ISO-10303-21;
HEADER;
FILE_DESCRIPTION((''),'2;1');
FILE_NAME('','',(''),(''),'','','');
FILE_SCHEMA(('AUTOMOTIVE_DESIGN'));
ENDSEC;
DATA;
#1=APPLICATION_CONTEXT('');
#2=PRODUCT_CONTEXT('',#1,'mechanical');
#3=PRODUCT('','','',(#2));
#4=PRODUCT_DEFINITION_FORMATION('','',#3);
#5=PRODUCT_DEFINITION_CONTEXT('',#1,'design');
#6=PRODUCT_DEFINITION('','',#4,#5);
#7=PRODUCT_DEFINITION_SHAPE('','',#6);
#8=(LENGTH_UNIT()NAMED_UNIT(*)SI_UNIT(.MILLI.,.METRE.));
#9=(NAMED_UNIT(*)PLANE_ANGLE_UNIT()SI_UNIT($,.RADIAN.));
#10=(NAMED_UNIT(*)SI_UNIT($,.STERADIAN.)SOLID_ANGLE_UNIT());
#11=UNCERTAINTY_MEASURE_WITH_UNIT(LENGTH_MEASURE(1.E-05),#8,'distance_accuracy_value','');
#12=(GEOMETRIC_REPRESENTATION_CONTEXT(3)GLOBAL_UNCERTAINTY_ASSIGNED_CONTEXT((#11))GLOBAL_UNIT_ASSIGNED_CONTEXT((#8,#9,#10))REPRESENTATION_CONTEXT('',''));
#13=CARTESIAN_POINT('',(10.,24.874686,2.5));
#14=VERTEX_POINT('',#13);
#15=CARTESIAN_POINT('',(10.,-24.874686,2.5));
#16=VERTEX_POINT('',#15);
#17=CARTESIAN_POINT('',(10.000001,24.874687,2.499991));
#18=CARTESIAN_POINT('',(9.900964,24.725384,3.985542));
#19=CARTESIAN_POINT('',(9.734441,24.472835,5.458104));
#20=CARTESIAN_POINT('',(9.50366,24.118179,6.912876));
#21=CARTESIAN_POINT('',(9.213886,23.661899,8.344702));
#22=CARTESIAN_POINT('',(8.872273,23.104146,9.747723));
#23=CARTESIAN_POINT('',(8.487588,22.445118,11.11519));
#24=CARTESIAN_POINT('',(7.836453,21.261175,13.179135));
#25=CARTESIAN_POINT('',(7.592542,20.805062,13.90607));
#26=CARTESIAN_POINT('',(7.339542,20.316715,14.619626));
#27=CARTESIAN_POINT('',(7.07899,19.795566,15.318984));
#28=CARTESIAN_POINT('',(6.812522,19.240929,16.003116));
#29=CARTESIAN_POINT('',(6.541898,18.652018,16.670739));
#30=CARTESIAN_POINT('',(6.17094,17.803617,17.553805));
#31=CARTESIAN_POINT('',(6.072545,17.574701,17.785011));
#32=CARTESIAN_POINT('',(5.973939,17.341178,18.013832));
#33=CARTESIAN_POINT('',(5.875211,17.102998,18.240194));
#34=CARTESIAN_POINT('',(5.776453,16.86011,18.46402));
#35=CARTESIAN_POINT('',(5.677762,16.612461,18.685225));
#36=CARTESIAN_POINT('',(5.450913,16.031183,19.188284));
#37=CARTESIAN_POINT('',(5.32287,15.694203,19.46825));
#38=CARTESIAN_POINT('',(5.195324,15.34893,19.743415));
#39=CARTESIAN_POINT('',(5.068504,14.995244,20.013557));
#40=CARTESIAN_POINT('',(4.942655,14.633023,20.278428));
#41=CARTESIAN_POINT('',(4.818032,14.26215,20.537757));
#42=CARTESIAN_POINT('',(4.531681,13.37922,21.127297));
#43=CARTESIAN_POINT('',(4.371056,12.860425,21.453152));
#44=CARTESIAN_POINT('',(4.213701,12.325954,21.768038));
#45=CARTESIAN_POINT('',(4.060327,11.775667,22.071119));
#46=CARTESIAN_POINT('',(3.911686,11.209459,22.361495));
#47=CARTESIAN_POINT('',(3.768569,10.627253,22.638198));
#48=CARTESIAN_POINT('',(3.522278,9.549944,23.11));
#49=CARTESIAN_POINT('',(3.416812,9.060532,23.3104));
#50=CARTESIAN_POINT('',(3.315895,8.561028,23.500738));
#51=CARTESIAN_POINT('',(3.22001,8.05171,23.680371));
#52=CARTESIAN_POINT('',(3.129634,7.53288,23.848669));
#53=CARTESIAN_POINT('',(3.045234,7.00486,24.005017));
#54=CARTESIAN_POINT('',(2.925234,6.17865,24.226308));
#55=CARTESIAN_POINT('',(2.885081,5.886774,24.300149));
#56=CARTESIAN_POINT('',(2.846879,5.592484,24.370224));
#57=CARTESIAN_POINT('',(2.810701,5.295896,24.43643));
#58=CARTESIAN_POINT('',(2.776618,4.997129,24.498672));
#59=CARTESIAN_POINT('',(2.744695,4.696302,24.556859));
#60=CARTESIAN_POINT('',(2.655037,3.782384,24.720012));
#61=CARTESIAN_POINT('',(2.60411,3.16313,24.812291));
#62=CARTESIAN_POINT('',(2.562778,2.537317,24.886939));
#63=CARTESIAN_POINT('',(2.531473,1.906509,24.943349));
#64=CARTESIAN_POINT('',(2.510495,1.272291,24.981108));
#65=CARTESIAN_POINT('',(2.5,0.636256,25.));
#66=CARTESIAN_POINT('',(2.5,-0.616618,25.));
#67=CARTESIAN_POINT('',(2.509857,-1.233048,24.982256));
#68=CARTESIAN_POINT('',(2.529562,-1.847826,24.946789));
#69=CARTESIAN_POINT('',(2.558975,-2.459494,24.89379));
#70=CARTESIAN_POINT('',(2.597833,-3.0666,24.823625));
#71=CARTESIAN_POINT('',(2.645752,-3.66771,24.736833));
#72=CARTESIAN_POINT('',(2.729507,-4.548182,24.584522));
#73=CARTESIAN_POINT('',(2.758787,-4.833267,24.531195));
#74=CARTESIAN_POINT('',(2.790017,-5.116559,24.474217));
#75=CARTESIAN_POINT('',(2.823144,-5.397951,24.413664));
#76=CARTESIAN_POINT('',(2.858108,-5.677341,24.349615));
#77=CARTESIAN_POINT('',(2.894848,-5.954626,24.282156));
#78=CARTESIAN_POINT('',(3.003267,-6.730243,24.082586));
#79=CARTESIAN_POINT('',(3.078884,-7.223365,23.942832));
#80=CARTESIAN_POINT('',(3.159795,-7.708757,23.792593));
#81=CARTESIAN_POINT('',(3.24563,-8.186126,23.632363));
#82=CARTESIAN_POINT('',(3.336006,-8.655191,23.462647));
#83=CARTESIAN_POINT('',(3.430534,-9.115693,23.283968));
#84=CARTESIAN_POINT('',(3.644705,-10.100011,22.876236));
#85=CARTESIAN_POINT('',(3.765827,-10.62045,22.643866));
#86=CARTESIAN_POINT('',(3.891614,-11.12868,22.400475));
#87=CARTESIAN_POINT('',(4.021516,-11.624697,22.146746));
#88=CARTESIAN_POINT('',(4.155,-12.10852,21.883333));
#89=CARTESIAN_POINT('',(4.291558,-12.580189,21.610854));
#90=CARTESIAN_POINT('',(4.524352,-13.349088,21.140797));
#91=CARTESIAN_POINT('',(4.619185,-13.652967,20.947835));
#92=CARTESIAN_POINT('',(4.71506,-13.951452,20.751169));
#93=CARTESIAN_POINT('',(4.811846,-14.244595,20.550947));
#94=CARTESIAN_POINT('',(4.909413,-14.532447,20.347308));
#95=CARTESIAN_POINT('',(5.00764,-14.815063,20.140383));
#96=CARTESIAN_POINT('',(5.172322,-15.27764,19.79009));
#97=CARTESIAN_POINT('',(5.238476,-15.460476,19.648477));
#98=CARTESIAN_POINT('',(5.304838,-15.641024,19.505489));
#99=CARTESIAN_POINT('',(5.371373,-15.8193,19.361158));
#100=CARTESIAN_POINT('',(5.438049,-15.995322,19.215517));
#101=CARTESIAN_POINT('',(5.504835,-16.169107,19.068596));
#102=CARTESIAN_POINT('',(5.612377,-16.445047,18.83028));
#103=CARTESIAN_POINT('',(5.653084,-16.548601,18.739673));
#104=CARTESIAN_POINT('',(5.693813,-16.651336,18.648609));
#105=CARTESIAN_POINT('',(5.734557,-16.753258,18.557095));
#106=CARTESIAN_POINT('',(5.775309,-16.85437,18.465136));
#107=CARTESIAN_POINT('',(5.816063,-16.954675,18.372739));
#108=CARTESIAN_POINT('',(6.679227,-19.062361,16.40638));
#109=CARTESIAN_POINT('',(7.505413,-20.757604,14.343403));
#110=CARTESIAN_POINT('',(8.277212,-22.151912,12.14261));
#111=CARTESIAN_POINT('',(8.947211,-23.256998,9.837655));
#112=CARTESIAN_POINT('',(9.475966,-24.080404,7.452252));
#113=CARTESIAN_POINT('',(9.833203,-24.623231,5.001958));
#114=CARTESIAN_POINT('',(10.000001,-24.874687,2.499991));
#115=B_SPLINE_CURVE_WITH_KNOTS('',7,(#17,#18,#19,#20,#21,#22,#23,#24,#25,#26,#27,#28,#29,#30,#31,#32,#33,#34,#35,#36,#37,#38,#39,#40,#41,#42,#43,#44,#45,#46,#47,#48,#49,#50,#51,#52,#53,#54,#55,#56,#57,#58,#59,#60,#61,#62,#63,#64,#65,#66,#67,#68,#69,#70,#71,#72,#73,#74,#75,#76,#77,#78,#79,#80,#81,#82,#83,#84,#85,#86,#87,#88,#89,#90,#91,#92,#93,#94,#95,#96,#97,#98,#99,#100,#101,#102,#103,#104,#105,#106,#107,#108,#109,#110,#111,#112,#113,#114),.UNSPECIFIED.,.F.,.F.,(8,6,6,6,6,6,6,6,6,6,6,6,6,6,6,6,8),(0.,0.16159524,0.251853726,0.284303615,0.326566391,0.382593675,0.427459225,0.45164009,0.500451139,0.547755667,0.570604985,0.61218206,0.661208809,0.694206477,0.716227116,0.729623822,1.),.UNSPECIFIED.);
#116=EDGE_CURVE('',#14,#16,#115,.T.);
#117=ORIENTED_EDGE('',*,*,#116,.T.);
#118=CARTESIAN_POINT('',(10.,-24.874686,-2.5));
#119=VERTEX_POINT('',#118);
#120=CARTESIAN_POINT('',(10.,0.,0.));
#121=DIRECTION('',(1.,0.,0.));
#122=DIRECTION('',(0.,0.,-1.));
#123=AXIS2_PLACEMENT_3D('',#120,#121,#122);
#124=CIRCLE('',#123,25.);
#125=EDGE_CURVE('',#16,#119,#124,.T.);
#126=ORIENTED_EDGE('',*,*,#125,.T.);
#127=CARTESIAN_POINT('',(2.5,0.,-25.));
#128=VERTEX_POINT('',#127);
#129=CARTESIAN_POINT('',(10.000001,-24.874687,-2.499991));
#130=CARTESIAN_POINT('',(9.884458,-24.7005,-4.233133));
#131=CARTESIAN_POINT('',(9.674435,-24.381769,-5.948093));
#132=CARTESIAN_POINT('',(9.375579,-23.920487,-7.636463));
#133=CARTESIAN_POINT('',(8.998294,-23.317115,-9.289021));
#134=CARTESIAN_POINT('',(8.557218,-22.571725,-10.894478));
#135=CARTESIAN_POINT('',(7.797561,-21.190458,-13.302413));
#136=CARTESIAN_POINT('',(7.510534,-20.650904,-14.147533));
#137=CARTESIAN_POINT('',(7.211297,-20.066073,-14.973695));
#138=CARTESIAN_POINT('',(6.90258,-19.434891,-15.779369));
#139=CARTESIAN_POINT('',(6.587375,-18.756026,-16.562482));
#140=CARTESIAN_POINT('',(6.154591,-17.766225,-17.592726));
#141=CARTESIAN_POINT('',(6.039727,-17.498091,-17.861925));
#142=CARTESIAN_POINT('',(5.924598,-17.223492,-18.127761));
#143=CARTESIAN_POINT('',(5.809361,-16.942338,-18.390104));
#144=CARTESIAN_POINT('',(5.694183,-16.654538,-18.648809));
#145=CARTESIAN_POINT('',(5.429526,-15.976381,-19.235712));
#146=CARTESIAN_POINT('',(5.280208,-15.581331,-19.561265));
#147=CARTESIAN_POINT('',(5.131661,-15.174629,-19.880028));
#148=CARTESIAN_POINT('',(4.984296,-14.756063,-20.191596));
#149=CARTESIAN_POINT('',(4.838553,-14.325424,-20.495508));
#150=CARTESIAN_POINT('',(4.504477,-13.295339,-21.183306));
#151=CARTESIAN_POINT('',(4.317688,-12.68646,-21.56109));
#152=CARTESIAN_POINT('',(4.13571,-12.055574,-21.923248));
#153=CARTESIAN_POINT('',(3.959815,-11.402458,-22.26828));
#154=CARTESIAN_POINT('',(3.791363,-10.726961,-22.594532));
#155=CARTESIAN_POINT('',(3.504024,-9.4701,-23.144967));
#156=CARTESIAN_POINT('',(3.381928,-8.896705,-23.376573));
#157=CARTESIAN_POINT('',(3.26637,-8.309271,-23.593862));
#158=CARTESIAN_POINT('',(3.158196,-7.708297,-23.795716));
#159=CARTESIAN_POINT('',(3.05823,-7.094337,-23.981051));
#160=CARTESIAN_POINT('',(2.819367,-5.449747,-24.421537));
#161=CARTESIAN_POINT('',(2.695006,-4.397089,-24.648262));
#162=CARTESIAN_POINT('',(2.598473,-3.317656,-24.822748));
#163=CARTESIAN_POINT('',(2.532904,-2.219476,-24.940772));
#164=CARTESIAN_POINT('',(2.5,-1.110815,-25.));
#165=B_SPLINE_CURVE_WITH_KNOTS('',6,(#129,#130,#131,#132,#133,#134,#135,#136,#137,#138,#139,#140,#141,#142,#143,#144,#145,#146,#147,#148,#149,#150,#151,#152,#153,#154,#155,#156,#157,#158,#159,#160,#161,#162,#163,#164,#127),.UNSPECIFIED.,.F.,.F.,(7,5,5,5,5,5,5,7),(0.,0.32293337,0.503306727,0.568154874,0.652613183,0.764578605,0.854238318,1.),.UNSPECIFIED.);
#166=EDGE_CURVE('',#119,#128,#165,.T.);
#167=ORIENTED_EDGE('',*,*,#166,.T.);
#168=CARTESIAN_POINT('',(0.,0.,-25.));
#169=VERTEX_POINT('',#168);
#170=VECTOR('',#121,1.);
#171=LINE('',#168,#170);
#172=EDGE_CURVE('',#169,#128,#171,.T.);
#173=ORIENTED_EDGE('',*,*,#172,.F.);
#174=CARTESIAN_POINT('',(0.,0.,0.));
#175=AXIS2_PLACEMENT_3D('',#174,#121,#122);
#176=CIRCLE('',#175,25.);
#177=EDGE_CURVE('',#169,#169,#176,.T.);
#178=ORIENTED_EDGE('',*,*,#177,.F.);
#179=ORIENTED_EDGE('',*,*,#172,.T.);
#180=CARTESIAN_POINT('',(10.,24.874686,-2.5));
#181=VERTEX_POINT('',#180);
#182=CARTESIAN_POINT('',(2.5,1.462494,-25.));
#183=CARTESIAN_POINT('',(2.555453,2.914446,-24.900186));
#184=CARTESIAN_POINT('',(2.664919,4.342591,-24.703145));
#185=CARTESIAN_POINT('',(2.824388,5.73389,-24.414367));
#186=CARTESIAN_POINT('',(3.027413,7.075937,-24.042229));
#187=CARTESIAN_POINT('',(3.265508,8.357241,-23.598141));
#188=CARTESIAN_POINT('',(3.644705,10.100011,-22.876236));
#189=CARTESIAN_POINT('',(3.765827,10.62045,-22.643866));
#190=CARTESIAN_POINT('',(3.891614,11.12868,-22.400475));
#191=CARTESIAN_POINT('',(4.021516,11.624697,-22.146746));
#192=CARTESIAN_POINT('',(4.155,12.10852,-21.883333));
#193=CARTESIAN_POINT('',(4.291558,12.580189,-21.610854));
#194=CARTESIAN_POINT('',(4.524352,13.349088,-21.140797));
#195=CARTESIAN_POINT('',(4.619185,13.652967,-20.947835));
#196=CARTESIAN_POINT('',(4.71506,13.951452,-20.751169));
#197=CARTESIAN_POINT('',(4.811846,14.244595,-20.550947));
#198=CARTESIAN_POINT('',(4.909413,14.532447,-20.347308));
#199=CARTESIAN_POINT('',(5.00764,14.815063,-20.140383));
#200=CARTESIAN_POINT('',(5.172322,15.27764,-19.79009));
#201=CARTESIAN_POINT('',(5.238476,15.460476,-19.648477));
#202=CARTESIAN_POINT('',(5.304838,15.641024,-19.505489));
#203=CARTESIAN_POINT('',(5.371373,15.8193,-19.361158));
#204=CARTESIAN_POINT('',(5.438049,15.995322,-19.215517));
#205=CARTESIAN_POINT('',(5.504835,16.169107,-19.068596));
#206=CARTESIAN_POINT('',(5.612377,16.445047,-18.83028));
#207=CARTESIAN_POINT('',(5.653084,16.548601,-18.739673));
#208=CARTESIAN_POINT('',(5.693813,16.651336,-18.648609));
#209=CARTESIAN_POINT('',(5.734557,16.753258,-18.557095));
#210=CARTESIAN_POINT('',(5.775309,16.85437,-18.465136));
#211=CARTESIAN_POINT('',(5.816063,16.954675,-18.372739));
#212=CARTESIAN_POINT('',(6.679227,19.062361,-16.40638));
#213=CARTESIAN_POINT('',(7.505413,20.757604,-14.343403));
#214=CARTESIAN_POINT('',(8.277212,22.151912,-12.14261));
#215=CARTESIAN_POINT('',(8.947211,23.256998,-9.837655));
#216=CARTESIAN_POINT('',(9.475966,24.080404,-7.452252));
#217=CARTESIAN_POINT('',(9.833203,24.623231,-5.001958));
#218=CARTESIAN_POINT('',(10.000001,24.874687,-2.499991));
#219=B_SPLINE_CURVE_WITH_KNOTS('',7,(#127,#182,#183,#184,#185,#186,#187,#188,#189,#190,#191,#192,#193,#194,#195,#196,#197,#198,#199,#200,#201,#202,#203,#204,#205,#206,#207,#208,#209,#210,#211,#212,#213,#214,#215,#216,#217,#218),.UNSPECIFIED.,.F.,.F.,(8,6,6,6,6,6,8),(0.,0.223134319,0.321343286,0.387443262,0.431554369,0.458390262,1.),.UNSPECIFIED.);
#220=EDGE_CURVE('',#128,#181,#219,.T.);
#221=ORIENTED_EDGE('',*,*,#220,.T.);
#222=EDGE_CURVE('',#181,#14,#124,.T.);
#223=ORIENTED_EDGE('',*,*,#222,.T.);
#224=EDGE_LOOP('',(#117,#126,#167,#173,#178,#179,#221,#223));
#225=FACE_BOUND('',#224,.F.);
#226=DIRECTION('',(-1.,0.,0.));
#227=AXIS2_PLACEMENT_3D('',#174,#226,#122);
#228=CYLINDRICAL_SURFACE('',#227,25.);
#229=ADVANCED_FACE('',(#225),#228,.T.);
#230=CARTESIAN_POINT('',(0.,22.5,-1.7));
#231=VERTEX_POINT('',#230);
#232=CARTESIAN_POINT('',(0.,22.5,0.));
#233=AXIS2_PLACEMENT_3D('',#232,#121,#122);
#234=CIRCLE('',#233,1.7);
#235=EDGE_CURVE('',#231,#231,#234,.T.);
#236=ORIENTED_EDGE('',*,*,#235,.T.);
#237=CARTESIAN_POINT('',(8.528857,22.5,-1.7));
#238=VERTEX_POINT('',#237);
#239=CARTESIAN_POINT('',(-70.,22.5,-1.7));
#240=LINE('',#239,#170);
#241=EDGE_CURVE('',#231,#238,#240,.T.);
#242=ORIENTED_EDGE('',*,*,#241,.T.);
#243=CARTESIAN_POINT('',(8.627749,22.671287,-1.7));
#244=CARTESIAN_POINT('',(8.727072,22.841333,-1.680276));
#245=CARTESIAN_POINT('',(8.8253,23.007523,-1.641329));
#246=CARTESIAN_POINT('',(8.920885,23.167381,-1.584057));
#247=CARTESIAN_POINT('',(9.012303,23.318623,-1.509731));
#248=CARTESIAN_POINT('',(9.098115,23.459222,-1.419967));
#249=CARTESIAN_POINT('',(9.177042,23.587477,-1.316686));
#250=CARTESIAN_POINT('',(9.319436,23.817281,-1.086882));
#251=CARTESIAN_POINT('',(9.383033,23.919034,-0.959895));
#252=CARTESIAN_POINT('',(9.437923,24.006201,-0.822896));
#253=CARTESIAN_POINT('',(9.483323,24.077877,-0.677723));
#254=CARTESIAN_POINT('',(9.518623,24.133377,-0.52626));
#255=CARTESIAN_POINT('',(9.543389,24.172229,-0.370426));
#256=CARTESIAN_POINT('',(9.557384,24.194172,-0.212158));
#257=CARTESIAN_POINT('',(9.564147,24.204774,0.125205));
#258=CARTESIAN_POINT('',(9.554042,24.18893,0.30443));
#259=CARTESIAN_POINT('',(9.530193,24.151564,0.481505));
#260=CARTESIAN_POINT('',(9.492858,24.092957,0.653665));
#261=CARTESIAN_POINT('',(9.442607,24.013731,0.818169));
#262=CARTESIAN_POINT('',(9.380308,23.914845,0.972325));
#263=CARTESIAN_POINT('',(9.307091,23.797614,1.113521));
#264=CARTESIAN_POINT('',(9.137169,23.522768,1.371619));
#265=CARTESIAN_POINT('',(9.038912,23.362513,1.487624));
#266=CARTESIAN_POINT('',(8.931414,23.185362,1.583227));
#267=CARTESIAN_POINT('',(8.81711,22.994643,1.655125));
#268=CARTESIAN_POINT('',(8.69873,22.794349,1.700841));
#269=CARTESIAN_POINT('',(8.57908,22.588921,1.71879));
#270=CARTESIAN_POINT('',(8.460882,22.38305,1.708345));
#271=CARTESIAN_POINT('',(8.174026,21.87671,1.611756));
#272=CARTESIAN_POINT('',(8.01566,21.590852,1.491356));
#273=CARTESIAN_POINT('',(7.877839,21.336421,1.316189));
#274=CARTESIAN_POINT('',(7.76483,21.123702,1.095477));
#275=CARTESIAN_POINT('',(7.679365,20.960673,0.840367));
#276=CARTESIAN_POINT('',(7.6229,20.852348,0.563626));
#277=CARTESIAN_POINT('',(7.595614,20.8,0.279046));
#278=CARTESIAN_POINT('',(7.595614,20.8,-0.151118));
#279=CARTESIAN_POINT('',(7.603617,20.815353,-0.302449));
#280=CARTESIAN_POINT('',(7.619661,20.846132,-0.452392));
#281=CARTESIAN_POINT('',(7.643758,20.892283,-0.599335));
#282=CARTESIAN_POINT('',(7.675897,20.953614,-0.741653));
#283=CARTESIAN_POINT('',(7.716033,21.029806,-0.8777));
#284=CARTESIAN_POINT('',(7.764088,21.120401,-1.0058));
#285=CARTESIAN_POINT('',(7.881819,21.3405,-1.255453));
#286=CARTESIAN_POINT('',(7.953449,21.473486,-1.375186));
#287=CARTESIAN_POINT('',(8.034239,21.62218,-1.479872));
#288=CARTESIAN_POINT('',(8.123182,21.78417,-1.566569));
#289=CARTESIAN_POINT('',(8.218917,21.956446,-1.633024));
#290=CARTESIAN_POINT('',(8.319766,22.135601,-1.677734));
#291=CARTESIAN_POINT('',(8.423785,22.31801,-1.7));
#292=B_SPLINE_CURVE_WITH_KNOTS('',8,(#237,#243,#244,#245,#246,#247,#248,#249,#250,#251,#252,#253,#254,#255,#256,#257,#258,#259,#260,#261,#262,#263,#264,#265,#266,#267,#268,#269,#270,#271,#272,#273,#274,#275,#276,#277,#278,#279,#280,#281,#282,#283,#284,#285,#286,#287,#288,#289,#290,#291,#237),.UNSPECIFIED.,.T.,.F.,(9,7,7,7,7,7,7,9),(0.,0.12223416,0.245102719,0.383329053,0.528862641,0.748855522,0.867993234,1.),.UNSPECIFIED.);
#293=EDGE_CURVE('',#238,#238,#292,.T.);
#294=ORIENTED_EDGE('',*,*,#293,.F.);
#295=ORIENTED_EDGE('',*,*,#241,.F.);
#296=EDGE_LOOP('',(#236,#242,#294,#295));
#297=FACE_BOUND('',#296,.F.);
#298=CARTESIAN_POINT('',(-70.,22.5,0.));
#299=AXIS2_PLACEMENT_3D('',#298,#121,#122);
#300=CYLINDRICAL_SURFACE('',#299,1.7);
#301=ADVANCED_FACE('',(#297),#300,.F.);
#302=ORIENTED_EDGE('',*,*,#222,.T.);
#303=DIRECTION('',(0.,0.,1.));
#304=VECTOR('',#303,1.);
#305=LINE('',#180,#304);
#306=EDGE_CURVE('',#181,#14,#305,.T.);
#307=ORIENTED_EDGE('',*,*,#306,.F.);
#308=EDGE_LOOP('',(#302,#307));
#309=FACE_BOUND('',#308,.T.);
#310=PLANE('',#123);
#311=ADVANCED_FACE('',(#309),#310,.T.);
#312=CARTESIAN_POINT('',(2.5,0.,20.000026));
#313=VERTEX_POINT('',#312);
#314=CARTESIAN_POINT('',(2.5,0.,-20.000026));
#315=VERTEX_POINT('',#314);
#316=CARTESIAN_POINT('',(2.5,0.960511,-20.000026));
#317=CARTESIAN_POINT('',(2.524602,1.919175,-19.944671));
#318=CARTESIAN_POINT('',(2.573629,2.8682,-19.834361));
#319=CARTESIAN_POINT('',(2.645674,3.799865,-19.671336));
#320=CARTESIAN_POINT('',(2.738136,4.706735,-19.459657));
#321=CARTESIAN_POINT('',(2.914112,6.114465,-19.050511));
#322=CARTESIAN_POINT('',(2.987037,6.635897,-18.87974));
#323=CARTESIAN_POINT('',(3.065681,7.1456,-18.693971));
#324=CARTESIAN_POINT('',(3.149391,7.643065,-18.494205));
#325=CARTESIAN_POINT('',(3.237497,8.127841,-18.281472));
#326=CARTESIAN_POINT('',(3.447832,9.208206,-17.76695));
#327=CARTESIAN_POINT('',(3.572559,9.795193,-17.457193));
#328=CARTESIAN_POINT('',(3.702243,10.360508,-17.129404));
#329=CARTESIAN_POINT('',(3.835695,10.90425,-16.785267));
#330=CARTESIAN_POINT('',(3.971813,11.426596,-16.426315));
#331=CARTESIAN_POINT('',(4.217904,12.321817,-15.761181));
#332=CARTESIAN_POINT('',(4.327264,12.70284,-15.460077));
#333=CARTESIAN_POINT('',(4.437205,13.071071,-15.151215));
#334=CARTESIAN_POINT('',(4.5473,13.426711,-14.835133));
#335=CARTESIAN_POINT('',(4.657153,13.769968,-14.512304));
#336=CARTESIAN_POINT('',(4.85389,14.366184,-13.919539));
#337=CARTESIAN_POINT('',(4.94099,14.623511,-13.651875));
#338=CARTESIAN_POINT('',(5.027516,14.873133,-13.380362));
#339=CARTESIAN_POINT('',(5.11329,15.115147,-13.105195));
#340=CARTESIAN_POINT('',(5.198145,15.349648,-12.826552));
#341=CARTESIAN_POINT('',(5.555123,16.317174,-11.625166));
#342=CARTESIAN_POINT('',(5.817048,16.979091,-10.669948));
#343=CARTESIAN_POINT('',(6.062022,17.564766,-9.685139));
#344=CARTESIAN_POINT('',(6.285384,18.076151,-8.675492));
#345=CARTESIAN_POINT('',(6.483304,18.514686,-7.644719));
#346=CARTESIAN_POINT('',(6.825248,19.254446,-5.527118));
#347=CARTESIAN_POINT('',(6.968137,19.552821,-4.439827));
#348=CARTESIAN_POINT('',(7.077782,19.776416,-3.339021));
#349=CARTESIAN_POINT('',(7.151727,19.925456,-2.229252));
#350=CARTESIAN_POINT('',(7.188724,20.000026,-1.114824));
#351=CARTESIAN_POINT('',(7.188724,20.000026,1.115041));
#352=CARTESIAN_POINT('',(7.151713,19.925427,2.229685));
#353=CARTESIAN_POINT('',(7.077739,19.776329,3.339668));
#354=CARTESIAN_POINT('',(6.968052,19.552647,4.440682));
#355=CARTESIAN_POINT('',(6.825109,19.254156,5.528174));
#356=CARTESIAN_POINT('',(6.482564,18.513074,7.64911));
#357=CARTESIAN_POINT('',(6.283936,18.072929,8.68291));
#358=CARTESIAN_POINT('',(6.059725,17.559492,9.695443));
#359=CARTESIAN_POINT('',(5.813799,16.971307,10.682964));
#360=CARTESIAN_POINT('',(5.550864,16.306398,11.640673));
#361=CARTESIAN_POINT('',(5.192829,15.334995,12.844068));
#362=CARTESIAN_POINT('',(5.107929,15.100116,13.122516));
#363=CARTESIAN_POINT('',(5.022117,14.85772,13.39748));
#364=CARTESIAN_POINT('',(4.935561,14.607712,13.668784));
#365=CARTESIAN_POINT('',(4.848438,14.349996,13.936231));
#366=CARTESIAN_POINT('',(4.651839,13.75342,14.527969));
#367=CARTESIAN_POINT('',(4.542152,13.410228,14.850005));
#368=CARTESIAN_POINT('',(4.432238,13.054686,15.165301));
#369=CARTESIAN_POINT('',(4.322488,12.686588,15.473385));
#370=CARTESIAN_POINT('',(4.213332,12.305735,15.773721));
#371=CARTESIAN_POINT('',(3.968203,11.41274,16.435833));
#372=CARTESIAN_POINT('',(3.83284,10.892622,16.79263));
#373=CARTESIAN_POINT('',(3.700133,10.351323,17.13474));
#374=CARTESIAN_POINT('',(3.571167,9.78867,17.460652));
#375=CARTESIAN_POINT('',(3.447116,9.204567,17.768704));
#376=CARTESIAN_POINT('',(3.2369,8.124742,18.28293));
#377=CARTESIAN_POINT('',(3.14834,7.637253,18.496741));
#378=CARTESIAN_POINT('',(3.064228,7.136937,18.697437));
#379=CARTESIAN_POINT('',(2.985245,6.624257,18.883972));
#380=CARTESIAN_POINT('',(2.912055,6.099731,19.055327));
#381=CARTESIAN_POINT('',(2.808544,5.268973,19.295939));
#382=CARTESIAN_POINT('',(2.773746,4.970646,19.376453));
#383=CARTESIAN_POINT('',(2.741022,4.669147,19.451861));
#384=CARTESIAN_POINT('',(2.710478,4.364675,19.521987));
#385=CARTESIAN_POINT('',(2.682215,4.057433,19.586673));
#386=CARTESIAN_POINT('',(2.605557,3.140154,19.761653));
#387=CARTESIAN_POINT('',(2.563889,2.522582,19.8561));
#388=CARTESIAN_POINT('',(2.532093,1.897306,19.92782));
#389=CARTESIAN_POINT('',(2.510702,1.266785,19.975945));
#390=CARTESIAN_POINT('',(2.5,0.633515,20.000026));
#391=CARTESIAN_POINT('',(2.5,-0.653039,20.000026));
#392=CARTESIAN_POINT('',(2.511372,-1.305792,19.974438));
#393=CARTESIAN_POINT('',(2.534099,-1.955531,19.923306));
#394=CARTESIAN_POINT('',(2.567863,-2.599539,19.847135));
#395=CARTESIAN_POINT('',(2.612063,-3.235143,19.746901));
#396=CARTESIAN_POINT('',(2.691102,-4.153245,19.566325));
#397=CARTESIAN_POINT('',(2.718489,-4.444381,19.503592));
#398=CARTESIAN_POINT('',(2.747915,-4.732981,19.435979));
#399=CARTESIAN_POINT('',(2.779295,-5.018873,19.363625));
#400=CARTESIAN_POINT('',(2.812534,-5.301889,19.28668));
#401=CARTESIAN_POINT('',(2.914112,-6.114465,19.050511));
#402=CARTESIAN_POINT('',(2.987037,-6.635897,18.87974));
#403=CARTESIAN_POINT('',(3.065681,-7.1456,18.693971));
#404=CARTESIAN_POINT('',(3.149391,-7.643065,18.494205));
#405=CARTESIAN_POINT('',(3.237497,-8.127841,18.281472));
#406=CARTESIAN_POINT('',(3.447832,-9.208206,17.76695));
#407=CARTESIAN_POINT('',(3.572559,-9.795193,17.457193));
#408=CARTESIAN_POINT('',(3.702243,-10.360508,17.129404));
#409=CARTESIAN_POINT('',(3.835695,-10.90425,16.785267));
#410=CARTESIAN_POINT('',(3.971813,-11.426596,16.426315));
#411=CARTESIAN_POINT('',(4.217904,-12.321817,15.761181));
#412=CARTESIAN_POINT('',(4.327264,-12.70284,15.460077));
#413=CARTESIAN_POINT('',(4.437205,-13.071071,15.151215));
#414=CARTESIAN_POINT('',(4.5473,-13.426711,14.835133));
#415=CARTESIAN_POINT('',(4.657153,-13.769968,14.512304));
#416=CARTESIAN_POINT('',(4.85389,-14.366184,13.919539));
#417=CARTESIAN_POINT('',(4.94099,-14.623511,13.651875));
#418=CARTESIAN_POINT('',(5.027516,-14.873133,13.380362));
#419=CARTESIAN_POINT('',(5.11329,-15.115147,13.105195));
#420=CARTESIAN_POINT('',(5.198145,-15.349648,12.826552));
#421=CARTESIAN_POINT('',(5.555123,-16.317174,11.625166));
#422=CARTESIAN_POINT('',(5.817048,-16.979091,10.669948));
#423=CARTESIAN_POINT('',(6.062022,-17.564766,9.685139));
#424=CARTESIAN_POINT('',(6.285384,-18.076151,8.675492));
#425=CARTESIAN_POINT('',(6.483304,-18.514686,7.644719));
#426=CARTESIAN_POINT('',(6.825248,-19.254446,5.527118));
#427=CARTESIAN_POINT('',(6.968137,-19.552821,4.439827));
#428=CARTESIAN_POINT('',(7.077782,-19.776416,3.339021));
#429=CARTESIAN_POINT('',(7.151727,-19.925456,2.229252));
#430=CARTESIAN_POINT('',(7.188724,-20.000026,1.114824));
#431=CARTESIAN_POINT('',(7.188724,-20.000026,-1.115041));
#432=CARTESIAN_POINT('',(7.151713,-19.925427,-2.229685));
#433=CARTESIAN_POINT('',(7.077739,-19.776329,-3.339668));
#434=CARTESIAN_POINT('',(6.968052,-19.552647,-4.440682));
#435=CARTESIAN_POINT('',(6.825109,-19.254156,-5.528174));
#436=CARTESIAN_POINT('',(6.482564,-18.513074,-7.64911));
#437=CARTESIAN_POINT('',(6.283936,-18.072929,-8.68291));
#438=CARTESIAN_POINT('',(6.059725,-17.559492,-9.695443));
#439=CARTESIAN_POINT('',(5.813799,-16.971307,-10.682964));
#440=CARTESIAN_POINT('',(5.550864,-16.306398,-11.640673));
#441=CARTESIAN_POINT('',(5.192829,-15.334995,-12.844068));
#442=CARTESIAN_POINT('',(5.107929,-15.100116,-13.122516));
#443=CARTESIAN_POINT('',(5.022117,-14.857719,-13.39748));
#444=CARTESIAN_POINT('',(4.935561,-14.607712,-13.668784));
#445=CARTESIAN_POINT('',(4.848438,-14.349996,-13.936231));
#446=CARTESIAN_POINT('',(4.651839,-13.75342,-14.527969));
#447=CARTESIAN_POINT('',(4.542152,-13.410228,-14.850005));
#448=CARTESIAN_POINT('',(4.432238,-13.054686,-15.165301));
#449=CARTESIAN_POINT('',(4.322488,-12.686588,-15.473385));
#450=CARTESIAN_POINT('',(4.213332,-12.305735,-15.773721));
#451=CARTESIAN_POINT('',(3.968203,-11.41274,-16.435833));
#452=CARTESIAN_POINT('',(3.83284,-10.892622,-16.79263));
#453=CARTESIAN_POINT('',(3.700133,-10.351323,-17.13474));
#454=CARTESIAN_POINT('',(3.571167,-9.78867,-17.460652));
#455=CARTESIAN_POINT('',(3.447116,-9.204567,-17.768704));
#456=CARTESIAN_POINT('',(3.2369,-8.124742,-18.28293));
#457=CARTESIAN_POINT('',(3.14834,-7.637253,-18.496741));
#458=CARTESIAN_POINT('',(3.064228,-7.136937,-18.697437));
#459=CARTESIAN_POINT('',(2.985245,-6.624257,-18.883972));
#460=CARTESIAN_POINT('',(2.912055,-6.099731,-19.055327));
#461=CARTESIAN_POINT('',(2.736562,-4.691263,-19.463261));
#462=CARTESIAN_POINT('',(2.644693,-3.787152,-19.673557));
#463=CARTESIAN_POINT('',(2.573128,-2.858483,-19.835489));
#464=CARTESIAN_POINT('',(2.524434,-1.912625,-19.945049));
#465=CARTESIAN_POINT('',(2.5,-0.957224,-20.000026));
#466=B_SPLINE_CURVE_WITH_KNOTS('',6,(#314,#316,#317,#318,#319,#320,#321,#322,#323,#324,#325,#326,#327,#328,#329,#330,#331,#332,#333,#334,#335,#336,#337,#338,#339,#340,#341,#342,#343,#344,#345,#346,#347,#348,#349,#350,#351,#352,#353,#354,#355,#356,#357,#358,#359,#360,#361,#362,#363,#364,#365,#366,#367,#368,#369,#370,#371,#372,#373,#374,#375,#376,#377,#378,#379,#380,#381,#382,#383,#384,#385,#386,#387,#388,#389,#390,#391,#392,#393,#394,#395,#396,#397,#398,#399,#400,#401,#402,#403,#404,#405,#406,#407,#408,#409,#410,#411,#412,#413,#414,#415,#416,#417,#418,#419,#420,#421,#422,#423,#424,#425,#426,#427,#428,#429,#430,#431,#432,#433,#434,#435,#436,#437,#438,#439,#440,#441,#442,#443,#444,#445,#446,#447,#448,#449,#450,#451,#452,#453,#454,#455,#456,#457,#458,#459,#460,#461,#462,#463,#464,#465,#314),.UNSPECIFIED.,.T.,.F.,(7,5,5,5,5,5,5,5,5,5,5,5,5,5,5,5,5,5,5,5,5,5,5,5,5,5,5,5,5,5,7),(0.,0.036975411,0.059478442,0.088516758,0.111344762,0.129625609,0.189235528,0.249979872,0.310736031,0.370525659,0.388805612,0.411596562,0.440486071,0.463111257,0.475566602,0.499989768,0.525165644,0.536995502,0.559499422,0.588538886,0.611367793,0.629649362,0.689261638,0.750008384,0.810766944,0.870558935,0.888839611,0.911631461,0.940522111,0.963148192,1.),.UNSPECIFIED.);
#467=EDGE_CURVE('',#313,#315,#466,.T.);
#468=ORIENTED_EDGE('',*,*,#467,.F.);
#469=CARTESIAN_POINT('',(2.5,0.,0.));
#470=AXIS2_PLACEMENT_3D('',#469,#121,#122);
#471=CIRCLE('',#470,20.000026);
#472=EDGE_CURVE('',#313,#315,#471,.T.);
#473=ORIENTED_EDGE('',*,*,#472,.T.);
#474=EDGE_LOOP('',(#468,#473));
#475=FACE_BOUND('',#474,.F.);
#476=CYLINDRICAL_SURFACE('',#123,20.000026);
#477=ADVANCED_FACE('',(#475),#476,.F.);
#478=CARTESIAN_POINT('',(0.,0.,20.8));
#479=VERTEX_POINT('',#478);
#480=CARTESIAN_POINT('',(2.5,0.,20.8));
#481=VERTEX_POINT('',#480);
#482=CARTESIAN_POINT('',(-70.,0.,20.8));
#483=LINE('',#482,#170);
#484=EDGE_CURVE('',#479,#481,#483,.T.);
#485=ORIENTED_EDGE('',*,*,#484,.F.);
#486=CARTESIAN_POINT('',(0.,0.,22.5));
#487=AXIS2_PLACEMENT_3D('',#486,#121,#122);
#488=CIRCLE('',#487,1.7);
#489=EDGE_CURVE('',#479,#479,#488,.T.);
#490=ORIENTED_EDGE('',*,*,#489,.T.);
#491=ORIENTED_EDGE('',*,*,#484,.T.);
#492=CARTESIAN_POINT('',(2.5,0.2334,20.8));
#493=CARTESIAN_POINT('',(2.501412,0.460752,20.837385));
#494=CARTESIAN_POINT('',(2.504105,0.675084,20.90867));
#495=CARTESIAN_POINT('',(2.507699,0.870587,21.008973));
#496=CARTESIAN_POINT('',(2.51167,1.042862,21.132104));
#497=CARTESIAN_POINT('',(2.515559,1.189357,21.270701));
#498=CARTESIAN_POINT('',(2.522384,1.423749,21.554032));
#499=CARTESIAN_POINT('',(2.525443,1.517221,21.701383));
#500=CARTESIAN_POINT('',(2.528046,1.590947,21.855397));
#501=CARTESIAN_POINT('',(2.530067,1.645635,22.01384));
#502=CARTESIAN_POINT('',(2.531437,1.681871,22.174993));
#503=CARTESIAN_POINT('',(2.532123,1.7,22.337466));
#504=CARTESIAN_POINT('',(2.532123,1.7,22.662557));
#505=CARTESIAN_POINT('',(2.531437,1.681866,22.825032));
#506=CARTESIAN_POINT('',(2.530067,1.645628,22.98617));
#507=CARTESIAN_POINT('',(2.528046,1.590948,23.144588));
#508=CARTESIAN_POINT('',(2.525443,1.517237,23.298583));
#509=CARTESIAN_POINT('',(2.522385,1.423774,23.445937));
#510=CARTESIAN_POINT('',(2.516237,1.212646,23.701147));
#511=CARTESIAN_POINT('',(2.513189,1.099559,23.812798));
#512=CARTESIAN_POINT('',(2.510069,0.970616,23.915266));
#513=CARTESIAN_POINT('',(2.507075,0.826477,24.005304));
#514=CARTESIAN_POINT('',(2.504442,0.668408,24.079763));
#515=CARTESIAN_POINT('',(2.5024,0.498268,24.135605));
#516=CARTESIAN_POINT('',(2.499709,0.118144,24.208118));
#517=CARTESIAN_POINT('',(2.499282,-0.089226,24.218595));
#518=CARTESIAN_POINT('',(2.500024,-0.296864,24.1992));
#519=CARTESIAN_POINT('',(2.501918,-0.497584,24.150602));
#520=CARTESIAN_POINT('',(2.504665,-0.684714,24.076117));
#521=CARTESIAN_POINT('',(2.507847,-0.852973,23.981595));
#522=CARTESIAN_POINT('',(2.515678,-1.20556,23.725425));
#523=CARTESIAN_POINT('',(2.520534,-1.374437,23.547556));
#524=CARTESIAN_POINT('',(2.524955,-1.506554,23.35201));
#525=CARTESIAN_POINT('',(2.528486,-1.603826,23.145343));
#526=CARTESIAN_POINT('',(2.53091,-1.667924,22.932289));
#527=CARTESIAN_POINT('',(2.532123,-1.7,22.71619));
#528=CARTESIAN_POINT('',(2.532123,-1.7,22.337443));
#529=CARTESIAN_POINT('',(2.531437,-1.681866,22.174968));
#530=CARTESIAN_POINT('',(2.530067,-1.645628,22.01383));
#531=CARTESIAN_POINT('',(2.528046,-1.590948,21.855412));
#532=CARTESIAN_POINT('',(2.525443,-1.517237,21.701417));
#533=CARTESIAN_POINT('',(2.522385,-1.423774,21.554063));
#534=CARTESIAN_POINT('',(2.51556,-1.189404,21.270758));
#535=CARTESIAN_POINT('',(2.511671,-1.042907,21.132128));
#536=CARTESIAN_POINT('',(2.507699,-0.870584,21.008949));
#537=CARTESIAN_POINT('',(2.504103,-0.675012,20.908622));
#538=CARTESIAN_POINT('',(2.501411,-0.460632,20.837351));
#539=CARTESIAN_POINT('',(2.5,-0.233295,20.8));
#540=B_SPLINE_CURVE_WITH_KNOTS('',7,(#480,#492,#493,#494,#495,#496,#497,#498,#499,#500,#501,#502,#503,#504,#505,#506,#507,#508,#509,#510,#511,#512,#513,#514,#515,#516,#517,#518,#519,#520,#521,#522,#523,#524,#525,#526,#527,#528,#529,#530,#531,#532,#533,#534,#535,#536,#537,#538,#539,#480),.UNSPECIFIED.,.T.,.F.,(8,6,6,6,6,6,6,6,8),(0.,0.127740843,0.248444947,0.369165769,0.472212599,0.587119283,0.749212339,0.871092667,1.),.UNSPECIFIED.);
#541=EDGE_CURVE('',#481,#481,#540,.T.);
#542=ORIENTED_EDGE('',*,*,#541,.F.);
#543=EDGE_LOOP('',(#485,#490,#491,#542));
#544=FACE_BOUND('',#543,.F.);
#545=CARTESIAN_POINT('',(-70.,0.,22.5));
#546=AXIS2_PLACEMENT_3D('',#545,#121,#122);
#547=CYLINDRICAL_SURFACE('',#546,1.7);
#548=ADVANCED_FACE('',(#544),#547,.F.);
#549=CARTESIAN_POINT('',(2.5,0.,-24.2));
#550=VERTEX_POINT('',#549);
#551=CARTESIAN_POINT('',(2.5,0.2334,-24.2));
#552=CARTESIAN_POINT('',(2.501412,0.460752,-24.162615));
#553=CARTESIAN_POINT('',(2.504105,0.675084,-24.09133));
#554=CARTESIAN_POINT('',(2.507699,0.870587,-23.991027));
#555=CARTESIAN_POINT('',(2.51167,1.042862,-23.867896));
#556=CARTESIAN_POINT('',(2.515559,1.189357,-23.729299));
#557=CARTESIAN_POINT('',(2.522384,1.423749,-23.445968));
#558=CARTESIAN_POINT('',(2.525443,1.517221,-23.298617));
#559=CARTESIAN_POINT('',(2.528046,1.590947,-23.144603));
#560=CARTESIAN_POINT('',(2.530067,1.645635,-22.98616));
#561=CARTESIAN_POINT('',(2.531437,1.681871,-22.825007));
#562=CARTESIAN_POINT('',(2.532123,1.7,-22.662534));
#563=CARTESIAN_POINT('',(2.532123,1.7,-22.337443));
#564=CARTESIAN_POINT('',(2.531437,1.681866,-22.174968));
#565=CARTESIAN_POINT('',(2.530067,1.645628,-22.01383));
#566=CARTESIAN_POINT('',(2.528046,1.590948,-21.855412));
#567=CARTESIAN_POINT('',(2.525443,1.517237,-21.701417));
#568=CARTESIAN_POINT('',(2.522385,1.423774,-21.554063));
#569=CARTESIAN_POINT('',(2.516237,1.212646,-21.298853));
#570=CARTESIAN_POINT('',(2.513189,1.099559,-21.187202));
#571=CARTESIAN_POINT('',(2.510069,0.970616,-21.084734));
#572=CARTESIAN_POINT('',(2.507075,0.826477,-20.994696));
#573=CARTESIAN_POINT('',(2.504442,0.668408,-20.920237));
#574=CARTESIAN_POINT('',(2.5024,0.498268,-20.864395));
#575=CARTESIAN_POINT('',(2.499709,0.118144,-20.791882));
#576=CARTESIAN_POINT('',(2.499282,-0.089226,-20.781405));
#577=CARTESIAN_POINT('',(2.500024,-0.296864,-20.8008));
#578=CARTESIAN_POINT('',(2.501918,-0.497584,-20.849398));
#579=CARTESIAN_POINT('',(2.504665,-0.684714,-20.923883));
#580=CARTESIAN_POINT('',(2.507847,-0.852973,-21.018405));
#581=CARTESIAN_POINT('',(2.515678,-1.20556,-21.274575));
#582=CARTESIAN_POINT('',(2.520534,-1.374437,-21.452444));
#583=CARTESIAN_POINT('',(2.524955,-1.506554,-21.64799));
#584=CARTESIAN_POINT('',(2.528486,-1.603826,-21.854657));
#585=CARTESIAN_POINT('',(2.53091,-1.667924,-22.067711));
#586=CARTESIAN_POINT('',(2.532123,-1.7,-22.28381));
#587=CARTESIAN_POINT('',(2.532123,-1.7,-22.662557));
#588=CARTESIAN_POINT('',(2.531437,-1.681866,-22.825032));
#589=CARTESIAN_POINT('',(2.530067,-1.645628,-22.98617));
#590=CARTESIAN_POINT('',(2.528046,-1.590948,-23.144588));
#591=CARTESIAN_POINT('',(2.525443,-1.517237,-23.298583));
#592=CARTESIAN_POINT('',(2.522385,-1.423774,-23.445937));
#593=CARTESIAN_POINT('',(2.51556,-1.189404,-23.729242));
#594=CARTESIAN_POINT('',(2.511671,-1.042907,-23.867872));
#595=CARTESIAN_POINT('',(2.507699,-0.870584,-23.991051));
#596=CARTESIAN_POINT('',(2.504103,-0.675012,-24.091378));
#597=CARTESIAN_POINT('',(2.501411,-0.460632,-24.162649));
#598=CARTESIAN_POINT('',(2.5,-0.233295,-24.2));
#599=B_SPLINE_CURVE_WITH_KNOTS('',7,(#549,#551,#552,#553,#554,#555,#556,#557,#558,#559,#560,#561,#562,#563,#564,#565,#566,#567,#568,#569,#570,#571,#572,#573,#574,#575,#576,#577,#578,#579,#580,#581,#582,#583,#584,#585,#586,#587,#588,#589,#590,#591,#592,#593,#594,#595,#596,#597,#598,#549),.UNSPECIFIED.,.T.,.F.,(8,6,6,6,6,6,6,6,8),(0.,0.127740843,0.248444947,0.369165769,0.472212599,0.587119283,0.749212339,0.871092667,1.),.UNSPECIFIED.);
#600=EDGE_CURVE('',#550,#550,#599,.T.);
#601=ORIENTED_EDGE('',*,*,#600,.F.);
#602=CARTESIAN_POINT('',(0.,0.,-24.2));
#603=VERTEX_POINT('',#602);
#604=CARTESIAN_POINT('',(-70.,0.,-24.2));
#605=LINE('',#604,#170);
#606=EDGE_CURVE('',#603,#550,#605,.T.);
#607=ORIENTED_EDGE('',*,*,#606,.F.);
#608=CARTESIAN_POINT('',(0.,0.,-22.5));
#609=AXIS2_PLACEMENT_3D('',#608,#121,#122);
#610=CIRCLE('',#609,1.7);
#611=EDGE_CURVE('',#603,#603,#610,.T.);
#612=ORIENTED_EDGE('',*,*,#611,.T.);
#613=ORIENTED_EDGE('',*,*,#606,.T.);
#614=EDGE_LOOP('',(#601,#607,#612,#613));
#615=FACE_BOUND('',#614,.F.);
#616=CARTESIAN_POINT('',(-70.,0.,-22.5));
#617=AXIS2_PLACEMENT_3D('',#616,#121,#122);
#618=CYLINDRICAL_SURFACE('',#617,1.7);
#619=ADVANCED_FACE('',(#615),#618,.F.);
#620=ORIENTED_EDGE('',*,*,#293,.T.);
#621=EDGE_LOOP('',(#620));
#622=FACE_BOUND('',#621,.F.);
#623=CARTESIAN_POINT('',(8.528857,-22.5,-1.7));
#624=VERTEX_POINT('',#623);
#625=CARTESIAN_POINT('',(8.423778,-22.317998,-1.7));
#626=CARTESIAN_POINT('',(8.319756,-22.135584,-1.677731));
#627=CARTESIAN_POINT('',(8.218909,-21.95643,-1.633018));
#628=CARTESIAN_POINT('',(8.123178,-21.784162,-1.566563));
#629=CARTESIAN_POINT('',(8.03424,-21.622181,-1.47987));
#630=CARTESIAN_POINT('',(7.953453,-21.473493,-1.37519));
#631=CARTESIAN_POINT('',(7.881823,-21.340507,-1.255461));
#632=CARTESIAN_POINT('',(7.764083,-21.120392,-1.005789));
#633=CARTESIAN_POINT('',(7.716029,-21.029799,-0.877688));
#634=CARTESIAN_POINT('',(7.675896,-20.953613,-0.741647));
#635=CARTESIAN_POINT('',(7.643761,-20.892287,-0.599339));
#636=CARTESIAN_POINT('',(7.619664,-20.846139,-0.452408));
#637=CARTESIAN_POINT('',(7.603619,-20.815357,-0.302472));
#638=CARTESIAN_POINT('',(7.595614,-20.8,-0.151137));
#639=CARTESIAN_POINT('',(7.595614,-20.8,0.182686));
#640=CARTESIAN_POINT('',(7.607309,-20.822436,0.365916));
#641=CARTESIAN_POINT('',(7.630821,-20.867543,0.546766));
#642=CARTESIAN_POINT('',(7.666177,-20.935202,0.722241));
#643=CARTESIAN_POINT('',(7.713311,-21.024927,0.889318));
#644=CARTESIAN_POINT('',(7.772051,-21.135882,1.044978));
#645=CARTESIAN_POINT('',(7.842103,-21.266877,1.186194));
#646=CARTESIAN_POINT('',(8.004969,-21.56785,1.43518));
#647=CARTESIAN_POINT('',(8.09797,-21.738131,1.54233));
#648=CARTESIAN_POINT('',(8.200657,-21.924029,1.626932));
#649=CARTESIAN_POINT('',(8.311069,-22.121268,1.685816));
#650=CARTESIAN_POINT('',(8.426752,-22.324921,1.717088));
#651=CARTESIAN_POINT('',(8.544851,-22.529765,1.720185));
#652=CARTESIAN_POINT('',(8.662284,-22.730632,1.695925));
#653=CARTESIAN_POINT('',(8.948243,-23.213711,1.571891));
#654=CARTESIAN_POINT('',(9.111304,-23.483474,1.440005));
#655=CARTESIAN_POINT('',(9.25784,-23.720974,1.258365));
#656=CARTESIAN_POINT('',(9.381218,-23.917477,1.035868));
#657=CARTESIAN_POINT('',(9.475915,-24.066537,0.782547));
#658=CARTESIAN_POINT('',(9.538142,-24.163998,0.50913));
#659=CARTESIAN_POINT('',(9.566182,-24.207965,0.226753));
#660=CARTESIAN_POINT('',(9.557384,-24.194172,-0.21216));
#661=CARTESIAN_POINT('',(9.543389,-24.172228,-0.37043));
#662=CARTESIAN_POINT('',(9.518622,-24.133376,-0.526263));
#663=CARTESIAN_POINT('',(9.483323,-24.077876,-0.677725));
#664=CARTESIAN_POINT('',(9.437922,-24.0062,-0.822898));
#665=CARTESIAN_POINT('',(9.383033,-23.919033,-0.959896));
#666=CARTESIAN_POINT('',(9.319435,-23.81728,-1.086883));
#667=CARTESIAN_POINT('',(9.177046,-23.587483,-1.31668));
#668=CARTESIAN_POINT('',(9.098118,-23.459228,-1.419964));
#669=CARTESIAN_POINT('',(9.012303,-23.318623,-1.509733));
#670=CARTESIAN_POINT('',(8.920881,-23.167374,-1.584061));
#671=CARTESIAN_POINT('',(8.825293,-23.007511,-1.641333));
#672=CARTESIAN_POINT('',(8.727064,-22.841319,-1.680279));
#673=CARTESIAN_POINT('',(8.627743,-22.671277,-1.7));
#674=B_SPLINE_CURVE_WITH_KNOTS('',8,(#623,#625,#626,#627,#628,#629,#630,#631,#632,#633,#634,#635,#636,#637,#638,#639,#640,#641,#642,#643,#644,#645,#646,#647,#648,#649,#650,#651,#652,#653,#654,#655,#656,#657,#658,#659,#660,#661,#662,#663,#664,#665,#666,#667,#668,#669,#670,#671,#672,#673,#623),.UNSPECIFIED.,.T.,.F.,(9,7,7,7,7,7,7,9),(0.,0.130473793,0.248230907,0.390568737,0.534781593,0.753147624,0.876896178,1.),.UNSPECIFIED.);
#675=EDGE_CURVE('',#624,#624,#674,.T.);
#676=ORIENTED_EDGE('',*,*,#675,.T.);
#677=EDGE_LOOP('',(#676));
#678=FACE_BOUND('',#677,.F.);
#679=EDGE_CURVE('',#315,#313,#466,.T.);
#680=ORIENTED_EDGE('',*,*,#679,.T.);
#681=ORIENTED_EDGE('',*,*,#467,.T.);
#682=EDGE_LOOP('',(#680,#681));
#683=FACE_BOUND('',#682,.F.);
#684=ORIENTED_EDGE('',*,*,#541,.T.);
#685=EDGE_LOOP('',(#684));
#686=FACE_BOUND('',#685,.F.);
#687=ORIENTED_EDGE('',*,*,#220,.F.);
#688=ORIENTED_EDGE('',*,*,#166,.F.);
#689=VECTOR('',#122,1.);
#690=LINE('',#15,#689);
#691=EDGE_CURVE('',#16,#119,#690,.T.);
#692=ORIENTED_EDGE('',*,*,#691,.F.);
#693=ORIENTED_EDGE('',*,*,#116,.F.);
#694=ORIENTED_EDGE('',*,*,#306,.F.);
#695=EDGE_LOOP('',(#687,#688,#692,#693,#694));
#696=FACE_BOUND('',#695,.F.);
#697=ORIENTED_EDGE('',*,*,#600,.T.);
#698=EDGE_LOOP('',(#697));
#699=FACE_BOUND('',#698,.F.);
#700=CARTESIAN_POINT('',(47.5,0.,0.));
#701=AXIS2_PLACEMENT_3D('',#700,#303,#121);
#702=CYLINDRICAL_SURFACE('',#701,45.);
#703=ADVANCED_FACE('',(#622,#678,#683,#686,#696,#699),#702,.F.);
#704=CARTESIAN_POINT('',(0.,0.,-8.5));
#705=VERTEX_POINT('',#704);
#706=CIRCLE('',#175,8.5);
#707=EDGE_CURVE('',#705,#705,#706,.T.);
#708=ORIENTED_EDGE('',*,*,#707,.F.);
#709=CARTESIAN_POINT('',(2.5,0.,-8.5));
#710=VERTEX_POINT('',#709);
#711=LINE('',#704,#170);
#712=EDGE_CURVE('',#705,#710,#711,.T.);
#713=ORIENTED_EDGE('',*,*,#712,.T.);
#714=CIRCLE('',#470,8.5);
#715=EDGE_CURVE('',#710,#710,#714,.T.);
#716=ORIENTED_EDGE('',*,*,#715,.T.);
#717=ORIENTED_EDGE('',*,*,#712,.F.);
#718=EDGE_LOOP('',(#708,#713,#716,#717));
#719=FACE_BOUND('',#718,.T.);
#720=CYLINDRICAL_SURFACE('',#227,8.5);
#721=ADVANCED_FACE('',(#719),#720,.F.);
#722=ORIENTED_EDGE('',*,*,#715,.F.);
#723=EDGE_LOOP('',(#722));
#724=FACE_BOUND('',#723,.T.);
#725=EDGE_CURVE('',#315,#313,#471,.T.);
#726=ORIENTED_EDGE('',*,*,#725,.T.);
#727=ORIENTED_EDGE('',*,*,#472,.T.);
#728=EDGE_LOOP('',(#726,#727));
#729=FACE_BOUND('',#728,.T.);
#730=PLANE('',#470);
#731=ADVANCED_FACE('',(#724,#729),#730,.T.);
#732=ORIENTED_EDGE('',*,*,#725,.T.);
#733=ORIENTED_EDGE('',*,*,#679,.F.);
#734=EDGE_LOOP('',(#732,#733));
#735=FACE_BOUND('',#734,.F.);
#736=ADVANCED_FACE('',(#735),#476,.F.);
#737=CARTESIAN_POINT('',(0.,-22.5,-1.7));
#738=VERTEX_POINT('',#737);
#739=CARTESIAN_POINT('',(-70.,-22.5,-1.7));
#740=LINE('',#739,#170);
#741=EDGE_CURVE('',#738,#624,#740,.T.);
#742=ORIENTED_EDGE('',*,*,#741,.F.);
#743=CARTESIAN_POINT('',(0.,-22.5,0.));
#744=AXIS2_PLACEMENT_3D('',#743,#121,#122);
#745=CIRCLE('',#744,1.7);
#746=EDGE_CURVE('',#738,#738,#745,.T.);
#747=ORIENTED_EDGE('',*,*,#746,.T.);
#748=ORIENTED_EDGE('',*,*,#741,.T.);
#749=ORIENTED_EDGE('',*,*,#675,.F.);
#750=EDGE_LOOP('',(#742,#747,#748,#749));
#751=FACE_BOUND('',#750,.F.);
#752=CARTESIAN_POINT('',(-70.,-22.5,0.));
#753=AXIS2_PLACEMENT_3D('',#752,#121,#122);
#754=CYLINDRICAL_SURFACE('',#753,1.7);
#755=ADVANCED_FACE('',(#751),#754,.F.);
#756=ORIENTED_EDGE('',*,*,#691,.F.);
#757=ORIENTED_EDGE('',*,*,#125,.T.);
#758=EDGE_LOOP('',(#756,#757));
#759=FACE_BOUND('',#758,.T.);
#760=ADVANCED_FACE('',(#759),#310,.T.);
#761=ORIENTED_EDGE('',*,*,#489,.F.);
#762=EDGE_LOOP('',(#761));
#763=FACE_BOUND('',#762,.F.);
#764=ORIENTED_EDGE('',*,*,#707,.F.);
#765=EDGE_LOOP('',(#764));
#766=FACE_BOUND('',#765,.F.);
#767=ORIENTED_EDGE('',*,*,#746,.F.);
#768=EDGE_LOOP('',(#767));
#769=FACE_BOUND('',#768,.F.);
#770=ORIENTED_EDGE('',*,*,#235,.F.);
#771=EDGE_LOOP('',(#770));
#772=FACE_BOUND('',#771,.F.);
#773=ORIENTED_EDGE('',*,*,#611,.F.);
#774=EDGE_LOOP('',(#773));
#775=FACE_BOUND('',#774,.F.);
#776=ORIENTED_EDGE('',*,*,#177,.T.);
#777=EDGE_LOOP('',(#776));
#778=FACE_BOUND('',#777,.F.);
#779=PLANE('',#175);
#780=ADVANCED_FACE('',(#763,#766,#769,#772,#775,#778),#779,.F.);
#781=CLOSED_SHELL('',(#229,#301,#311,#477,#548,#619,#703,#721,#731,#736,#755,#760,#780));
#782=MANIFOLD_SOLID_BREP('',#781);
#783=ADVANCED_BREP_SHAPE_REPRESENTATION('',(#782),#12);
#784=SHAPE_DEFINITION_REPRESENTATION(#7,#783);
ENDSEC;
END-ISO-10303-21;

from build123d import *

# Parameters (mm, degrees)
SKETCH2_R                = 25
SKETCH2_R_2              = 8.5
BOSS_EXTRUDE1_DEPTH      = 10
SKETCH3_R                = 45
CUT_EXTRUDE3_DEPTH       = 29
CUT_EXTRUDE3_DEPTH_BACK  = 28
SKETCH5_R                = 20.000026056
CUT_EXTRUDE4_DEPTH       = 7.5
M3_CLEARANCE_HOLE1_D     = 3.4
M3_CLEARANCE_HOLE1_DEPTH = 70
M3_CLEARANCE_HOLE1_TIP   = 1.021463052


with BuildPart() as part:
    # Sketch2 → Boss-Extrude1 (new body)
    with BuildSketch(Plane(origin=(0, 0, 0), x_dir=(0, 0, -1), z_dir=(1, 0, 0))):
        Circle(SKETCH2_R)
        Circle(SKETCH2_R_2, mode=Mode.SUBTRACT)
    extrude(amount=BOSS_EXTRUDE1_DEPTH)

    # Sketch3 → Cut-Extrude3 (cut, two sides)
    with BuildSketch(Plane.XY) as cut_extrude3_sk:
        with Locations((47.5, 0)):
            Circle(SKETCH3_R)
    extrude(amount=CUT_EXTRUDE3_DEPTH, mode=Mode.SUBTRACT)
    extrude(cut_extrude3_sk.sketch, amount=-CUT_EXTRUDE3_DEPTH_BACK, mode=Mode.SUBTRACT)

    # Sketch5 → Cut-Extrude4 (cut)
    with BuildSketch(Plane(origin=(10, 0, 0), x_dir=(0, 0, -1), z_dir=(1, 0, 0))):
        Circle(SKETCH5_R)
    extrude(amount=-CUT_EXTRUDE4_DEPTH, mode=Mode.SUBTRACT)

    # M3 Clearance Hole1
    with Locations(Plane.ZY):
        with Locations((22.5, 0), (0, 22.5), (-22.5, 0), (0, -22.5)):
            Hole(M3_CLEARANCE_HOLE1_D / 2, depth=M3_CLEARANCE_HOLE1_DEPTH)
            with Locations((0, 0, -(M3_CLEARANCE_HOLE1_DEPTH + M3_CLEARANCE_HOLE1_TIP / 2))):  # 118° drill point
                Cone(0, M3_CLEARANCE_HOLE1_D / 2, M3_CLEARANCE_HOLE1_TIP, mode=Mode.SUBTRACT)


solid = part.part
